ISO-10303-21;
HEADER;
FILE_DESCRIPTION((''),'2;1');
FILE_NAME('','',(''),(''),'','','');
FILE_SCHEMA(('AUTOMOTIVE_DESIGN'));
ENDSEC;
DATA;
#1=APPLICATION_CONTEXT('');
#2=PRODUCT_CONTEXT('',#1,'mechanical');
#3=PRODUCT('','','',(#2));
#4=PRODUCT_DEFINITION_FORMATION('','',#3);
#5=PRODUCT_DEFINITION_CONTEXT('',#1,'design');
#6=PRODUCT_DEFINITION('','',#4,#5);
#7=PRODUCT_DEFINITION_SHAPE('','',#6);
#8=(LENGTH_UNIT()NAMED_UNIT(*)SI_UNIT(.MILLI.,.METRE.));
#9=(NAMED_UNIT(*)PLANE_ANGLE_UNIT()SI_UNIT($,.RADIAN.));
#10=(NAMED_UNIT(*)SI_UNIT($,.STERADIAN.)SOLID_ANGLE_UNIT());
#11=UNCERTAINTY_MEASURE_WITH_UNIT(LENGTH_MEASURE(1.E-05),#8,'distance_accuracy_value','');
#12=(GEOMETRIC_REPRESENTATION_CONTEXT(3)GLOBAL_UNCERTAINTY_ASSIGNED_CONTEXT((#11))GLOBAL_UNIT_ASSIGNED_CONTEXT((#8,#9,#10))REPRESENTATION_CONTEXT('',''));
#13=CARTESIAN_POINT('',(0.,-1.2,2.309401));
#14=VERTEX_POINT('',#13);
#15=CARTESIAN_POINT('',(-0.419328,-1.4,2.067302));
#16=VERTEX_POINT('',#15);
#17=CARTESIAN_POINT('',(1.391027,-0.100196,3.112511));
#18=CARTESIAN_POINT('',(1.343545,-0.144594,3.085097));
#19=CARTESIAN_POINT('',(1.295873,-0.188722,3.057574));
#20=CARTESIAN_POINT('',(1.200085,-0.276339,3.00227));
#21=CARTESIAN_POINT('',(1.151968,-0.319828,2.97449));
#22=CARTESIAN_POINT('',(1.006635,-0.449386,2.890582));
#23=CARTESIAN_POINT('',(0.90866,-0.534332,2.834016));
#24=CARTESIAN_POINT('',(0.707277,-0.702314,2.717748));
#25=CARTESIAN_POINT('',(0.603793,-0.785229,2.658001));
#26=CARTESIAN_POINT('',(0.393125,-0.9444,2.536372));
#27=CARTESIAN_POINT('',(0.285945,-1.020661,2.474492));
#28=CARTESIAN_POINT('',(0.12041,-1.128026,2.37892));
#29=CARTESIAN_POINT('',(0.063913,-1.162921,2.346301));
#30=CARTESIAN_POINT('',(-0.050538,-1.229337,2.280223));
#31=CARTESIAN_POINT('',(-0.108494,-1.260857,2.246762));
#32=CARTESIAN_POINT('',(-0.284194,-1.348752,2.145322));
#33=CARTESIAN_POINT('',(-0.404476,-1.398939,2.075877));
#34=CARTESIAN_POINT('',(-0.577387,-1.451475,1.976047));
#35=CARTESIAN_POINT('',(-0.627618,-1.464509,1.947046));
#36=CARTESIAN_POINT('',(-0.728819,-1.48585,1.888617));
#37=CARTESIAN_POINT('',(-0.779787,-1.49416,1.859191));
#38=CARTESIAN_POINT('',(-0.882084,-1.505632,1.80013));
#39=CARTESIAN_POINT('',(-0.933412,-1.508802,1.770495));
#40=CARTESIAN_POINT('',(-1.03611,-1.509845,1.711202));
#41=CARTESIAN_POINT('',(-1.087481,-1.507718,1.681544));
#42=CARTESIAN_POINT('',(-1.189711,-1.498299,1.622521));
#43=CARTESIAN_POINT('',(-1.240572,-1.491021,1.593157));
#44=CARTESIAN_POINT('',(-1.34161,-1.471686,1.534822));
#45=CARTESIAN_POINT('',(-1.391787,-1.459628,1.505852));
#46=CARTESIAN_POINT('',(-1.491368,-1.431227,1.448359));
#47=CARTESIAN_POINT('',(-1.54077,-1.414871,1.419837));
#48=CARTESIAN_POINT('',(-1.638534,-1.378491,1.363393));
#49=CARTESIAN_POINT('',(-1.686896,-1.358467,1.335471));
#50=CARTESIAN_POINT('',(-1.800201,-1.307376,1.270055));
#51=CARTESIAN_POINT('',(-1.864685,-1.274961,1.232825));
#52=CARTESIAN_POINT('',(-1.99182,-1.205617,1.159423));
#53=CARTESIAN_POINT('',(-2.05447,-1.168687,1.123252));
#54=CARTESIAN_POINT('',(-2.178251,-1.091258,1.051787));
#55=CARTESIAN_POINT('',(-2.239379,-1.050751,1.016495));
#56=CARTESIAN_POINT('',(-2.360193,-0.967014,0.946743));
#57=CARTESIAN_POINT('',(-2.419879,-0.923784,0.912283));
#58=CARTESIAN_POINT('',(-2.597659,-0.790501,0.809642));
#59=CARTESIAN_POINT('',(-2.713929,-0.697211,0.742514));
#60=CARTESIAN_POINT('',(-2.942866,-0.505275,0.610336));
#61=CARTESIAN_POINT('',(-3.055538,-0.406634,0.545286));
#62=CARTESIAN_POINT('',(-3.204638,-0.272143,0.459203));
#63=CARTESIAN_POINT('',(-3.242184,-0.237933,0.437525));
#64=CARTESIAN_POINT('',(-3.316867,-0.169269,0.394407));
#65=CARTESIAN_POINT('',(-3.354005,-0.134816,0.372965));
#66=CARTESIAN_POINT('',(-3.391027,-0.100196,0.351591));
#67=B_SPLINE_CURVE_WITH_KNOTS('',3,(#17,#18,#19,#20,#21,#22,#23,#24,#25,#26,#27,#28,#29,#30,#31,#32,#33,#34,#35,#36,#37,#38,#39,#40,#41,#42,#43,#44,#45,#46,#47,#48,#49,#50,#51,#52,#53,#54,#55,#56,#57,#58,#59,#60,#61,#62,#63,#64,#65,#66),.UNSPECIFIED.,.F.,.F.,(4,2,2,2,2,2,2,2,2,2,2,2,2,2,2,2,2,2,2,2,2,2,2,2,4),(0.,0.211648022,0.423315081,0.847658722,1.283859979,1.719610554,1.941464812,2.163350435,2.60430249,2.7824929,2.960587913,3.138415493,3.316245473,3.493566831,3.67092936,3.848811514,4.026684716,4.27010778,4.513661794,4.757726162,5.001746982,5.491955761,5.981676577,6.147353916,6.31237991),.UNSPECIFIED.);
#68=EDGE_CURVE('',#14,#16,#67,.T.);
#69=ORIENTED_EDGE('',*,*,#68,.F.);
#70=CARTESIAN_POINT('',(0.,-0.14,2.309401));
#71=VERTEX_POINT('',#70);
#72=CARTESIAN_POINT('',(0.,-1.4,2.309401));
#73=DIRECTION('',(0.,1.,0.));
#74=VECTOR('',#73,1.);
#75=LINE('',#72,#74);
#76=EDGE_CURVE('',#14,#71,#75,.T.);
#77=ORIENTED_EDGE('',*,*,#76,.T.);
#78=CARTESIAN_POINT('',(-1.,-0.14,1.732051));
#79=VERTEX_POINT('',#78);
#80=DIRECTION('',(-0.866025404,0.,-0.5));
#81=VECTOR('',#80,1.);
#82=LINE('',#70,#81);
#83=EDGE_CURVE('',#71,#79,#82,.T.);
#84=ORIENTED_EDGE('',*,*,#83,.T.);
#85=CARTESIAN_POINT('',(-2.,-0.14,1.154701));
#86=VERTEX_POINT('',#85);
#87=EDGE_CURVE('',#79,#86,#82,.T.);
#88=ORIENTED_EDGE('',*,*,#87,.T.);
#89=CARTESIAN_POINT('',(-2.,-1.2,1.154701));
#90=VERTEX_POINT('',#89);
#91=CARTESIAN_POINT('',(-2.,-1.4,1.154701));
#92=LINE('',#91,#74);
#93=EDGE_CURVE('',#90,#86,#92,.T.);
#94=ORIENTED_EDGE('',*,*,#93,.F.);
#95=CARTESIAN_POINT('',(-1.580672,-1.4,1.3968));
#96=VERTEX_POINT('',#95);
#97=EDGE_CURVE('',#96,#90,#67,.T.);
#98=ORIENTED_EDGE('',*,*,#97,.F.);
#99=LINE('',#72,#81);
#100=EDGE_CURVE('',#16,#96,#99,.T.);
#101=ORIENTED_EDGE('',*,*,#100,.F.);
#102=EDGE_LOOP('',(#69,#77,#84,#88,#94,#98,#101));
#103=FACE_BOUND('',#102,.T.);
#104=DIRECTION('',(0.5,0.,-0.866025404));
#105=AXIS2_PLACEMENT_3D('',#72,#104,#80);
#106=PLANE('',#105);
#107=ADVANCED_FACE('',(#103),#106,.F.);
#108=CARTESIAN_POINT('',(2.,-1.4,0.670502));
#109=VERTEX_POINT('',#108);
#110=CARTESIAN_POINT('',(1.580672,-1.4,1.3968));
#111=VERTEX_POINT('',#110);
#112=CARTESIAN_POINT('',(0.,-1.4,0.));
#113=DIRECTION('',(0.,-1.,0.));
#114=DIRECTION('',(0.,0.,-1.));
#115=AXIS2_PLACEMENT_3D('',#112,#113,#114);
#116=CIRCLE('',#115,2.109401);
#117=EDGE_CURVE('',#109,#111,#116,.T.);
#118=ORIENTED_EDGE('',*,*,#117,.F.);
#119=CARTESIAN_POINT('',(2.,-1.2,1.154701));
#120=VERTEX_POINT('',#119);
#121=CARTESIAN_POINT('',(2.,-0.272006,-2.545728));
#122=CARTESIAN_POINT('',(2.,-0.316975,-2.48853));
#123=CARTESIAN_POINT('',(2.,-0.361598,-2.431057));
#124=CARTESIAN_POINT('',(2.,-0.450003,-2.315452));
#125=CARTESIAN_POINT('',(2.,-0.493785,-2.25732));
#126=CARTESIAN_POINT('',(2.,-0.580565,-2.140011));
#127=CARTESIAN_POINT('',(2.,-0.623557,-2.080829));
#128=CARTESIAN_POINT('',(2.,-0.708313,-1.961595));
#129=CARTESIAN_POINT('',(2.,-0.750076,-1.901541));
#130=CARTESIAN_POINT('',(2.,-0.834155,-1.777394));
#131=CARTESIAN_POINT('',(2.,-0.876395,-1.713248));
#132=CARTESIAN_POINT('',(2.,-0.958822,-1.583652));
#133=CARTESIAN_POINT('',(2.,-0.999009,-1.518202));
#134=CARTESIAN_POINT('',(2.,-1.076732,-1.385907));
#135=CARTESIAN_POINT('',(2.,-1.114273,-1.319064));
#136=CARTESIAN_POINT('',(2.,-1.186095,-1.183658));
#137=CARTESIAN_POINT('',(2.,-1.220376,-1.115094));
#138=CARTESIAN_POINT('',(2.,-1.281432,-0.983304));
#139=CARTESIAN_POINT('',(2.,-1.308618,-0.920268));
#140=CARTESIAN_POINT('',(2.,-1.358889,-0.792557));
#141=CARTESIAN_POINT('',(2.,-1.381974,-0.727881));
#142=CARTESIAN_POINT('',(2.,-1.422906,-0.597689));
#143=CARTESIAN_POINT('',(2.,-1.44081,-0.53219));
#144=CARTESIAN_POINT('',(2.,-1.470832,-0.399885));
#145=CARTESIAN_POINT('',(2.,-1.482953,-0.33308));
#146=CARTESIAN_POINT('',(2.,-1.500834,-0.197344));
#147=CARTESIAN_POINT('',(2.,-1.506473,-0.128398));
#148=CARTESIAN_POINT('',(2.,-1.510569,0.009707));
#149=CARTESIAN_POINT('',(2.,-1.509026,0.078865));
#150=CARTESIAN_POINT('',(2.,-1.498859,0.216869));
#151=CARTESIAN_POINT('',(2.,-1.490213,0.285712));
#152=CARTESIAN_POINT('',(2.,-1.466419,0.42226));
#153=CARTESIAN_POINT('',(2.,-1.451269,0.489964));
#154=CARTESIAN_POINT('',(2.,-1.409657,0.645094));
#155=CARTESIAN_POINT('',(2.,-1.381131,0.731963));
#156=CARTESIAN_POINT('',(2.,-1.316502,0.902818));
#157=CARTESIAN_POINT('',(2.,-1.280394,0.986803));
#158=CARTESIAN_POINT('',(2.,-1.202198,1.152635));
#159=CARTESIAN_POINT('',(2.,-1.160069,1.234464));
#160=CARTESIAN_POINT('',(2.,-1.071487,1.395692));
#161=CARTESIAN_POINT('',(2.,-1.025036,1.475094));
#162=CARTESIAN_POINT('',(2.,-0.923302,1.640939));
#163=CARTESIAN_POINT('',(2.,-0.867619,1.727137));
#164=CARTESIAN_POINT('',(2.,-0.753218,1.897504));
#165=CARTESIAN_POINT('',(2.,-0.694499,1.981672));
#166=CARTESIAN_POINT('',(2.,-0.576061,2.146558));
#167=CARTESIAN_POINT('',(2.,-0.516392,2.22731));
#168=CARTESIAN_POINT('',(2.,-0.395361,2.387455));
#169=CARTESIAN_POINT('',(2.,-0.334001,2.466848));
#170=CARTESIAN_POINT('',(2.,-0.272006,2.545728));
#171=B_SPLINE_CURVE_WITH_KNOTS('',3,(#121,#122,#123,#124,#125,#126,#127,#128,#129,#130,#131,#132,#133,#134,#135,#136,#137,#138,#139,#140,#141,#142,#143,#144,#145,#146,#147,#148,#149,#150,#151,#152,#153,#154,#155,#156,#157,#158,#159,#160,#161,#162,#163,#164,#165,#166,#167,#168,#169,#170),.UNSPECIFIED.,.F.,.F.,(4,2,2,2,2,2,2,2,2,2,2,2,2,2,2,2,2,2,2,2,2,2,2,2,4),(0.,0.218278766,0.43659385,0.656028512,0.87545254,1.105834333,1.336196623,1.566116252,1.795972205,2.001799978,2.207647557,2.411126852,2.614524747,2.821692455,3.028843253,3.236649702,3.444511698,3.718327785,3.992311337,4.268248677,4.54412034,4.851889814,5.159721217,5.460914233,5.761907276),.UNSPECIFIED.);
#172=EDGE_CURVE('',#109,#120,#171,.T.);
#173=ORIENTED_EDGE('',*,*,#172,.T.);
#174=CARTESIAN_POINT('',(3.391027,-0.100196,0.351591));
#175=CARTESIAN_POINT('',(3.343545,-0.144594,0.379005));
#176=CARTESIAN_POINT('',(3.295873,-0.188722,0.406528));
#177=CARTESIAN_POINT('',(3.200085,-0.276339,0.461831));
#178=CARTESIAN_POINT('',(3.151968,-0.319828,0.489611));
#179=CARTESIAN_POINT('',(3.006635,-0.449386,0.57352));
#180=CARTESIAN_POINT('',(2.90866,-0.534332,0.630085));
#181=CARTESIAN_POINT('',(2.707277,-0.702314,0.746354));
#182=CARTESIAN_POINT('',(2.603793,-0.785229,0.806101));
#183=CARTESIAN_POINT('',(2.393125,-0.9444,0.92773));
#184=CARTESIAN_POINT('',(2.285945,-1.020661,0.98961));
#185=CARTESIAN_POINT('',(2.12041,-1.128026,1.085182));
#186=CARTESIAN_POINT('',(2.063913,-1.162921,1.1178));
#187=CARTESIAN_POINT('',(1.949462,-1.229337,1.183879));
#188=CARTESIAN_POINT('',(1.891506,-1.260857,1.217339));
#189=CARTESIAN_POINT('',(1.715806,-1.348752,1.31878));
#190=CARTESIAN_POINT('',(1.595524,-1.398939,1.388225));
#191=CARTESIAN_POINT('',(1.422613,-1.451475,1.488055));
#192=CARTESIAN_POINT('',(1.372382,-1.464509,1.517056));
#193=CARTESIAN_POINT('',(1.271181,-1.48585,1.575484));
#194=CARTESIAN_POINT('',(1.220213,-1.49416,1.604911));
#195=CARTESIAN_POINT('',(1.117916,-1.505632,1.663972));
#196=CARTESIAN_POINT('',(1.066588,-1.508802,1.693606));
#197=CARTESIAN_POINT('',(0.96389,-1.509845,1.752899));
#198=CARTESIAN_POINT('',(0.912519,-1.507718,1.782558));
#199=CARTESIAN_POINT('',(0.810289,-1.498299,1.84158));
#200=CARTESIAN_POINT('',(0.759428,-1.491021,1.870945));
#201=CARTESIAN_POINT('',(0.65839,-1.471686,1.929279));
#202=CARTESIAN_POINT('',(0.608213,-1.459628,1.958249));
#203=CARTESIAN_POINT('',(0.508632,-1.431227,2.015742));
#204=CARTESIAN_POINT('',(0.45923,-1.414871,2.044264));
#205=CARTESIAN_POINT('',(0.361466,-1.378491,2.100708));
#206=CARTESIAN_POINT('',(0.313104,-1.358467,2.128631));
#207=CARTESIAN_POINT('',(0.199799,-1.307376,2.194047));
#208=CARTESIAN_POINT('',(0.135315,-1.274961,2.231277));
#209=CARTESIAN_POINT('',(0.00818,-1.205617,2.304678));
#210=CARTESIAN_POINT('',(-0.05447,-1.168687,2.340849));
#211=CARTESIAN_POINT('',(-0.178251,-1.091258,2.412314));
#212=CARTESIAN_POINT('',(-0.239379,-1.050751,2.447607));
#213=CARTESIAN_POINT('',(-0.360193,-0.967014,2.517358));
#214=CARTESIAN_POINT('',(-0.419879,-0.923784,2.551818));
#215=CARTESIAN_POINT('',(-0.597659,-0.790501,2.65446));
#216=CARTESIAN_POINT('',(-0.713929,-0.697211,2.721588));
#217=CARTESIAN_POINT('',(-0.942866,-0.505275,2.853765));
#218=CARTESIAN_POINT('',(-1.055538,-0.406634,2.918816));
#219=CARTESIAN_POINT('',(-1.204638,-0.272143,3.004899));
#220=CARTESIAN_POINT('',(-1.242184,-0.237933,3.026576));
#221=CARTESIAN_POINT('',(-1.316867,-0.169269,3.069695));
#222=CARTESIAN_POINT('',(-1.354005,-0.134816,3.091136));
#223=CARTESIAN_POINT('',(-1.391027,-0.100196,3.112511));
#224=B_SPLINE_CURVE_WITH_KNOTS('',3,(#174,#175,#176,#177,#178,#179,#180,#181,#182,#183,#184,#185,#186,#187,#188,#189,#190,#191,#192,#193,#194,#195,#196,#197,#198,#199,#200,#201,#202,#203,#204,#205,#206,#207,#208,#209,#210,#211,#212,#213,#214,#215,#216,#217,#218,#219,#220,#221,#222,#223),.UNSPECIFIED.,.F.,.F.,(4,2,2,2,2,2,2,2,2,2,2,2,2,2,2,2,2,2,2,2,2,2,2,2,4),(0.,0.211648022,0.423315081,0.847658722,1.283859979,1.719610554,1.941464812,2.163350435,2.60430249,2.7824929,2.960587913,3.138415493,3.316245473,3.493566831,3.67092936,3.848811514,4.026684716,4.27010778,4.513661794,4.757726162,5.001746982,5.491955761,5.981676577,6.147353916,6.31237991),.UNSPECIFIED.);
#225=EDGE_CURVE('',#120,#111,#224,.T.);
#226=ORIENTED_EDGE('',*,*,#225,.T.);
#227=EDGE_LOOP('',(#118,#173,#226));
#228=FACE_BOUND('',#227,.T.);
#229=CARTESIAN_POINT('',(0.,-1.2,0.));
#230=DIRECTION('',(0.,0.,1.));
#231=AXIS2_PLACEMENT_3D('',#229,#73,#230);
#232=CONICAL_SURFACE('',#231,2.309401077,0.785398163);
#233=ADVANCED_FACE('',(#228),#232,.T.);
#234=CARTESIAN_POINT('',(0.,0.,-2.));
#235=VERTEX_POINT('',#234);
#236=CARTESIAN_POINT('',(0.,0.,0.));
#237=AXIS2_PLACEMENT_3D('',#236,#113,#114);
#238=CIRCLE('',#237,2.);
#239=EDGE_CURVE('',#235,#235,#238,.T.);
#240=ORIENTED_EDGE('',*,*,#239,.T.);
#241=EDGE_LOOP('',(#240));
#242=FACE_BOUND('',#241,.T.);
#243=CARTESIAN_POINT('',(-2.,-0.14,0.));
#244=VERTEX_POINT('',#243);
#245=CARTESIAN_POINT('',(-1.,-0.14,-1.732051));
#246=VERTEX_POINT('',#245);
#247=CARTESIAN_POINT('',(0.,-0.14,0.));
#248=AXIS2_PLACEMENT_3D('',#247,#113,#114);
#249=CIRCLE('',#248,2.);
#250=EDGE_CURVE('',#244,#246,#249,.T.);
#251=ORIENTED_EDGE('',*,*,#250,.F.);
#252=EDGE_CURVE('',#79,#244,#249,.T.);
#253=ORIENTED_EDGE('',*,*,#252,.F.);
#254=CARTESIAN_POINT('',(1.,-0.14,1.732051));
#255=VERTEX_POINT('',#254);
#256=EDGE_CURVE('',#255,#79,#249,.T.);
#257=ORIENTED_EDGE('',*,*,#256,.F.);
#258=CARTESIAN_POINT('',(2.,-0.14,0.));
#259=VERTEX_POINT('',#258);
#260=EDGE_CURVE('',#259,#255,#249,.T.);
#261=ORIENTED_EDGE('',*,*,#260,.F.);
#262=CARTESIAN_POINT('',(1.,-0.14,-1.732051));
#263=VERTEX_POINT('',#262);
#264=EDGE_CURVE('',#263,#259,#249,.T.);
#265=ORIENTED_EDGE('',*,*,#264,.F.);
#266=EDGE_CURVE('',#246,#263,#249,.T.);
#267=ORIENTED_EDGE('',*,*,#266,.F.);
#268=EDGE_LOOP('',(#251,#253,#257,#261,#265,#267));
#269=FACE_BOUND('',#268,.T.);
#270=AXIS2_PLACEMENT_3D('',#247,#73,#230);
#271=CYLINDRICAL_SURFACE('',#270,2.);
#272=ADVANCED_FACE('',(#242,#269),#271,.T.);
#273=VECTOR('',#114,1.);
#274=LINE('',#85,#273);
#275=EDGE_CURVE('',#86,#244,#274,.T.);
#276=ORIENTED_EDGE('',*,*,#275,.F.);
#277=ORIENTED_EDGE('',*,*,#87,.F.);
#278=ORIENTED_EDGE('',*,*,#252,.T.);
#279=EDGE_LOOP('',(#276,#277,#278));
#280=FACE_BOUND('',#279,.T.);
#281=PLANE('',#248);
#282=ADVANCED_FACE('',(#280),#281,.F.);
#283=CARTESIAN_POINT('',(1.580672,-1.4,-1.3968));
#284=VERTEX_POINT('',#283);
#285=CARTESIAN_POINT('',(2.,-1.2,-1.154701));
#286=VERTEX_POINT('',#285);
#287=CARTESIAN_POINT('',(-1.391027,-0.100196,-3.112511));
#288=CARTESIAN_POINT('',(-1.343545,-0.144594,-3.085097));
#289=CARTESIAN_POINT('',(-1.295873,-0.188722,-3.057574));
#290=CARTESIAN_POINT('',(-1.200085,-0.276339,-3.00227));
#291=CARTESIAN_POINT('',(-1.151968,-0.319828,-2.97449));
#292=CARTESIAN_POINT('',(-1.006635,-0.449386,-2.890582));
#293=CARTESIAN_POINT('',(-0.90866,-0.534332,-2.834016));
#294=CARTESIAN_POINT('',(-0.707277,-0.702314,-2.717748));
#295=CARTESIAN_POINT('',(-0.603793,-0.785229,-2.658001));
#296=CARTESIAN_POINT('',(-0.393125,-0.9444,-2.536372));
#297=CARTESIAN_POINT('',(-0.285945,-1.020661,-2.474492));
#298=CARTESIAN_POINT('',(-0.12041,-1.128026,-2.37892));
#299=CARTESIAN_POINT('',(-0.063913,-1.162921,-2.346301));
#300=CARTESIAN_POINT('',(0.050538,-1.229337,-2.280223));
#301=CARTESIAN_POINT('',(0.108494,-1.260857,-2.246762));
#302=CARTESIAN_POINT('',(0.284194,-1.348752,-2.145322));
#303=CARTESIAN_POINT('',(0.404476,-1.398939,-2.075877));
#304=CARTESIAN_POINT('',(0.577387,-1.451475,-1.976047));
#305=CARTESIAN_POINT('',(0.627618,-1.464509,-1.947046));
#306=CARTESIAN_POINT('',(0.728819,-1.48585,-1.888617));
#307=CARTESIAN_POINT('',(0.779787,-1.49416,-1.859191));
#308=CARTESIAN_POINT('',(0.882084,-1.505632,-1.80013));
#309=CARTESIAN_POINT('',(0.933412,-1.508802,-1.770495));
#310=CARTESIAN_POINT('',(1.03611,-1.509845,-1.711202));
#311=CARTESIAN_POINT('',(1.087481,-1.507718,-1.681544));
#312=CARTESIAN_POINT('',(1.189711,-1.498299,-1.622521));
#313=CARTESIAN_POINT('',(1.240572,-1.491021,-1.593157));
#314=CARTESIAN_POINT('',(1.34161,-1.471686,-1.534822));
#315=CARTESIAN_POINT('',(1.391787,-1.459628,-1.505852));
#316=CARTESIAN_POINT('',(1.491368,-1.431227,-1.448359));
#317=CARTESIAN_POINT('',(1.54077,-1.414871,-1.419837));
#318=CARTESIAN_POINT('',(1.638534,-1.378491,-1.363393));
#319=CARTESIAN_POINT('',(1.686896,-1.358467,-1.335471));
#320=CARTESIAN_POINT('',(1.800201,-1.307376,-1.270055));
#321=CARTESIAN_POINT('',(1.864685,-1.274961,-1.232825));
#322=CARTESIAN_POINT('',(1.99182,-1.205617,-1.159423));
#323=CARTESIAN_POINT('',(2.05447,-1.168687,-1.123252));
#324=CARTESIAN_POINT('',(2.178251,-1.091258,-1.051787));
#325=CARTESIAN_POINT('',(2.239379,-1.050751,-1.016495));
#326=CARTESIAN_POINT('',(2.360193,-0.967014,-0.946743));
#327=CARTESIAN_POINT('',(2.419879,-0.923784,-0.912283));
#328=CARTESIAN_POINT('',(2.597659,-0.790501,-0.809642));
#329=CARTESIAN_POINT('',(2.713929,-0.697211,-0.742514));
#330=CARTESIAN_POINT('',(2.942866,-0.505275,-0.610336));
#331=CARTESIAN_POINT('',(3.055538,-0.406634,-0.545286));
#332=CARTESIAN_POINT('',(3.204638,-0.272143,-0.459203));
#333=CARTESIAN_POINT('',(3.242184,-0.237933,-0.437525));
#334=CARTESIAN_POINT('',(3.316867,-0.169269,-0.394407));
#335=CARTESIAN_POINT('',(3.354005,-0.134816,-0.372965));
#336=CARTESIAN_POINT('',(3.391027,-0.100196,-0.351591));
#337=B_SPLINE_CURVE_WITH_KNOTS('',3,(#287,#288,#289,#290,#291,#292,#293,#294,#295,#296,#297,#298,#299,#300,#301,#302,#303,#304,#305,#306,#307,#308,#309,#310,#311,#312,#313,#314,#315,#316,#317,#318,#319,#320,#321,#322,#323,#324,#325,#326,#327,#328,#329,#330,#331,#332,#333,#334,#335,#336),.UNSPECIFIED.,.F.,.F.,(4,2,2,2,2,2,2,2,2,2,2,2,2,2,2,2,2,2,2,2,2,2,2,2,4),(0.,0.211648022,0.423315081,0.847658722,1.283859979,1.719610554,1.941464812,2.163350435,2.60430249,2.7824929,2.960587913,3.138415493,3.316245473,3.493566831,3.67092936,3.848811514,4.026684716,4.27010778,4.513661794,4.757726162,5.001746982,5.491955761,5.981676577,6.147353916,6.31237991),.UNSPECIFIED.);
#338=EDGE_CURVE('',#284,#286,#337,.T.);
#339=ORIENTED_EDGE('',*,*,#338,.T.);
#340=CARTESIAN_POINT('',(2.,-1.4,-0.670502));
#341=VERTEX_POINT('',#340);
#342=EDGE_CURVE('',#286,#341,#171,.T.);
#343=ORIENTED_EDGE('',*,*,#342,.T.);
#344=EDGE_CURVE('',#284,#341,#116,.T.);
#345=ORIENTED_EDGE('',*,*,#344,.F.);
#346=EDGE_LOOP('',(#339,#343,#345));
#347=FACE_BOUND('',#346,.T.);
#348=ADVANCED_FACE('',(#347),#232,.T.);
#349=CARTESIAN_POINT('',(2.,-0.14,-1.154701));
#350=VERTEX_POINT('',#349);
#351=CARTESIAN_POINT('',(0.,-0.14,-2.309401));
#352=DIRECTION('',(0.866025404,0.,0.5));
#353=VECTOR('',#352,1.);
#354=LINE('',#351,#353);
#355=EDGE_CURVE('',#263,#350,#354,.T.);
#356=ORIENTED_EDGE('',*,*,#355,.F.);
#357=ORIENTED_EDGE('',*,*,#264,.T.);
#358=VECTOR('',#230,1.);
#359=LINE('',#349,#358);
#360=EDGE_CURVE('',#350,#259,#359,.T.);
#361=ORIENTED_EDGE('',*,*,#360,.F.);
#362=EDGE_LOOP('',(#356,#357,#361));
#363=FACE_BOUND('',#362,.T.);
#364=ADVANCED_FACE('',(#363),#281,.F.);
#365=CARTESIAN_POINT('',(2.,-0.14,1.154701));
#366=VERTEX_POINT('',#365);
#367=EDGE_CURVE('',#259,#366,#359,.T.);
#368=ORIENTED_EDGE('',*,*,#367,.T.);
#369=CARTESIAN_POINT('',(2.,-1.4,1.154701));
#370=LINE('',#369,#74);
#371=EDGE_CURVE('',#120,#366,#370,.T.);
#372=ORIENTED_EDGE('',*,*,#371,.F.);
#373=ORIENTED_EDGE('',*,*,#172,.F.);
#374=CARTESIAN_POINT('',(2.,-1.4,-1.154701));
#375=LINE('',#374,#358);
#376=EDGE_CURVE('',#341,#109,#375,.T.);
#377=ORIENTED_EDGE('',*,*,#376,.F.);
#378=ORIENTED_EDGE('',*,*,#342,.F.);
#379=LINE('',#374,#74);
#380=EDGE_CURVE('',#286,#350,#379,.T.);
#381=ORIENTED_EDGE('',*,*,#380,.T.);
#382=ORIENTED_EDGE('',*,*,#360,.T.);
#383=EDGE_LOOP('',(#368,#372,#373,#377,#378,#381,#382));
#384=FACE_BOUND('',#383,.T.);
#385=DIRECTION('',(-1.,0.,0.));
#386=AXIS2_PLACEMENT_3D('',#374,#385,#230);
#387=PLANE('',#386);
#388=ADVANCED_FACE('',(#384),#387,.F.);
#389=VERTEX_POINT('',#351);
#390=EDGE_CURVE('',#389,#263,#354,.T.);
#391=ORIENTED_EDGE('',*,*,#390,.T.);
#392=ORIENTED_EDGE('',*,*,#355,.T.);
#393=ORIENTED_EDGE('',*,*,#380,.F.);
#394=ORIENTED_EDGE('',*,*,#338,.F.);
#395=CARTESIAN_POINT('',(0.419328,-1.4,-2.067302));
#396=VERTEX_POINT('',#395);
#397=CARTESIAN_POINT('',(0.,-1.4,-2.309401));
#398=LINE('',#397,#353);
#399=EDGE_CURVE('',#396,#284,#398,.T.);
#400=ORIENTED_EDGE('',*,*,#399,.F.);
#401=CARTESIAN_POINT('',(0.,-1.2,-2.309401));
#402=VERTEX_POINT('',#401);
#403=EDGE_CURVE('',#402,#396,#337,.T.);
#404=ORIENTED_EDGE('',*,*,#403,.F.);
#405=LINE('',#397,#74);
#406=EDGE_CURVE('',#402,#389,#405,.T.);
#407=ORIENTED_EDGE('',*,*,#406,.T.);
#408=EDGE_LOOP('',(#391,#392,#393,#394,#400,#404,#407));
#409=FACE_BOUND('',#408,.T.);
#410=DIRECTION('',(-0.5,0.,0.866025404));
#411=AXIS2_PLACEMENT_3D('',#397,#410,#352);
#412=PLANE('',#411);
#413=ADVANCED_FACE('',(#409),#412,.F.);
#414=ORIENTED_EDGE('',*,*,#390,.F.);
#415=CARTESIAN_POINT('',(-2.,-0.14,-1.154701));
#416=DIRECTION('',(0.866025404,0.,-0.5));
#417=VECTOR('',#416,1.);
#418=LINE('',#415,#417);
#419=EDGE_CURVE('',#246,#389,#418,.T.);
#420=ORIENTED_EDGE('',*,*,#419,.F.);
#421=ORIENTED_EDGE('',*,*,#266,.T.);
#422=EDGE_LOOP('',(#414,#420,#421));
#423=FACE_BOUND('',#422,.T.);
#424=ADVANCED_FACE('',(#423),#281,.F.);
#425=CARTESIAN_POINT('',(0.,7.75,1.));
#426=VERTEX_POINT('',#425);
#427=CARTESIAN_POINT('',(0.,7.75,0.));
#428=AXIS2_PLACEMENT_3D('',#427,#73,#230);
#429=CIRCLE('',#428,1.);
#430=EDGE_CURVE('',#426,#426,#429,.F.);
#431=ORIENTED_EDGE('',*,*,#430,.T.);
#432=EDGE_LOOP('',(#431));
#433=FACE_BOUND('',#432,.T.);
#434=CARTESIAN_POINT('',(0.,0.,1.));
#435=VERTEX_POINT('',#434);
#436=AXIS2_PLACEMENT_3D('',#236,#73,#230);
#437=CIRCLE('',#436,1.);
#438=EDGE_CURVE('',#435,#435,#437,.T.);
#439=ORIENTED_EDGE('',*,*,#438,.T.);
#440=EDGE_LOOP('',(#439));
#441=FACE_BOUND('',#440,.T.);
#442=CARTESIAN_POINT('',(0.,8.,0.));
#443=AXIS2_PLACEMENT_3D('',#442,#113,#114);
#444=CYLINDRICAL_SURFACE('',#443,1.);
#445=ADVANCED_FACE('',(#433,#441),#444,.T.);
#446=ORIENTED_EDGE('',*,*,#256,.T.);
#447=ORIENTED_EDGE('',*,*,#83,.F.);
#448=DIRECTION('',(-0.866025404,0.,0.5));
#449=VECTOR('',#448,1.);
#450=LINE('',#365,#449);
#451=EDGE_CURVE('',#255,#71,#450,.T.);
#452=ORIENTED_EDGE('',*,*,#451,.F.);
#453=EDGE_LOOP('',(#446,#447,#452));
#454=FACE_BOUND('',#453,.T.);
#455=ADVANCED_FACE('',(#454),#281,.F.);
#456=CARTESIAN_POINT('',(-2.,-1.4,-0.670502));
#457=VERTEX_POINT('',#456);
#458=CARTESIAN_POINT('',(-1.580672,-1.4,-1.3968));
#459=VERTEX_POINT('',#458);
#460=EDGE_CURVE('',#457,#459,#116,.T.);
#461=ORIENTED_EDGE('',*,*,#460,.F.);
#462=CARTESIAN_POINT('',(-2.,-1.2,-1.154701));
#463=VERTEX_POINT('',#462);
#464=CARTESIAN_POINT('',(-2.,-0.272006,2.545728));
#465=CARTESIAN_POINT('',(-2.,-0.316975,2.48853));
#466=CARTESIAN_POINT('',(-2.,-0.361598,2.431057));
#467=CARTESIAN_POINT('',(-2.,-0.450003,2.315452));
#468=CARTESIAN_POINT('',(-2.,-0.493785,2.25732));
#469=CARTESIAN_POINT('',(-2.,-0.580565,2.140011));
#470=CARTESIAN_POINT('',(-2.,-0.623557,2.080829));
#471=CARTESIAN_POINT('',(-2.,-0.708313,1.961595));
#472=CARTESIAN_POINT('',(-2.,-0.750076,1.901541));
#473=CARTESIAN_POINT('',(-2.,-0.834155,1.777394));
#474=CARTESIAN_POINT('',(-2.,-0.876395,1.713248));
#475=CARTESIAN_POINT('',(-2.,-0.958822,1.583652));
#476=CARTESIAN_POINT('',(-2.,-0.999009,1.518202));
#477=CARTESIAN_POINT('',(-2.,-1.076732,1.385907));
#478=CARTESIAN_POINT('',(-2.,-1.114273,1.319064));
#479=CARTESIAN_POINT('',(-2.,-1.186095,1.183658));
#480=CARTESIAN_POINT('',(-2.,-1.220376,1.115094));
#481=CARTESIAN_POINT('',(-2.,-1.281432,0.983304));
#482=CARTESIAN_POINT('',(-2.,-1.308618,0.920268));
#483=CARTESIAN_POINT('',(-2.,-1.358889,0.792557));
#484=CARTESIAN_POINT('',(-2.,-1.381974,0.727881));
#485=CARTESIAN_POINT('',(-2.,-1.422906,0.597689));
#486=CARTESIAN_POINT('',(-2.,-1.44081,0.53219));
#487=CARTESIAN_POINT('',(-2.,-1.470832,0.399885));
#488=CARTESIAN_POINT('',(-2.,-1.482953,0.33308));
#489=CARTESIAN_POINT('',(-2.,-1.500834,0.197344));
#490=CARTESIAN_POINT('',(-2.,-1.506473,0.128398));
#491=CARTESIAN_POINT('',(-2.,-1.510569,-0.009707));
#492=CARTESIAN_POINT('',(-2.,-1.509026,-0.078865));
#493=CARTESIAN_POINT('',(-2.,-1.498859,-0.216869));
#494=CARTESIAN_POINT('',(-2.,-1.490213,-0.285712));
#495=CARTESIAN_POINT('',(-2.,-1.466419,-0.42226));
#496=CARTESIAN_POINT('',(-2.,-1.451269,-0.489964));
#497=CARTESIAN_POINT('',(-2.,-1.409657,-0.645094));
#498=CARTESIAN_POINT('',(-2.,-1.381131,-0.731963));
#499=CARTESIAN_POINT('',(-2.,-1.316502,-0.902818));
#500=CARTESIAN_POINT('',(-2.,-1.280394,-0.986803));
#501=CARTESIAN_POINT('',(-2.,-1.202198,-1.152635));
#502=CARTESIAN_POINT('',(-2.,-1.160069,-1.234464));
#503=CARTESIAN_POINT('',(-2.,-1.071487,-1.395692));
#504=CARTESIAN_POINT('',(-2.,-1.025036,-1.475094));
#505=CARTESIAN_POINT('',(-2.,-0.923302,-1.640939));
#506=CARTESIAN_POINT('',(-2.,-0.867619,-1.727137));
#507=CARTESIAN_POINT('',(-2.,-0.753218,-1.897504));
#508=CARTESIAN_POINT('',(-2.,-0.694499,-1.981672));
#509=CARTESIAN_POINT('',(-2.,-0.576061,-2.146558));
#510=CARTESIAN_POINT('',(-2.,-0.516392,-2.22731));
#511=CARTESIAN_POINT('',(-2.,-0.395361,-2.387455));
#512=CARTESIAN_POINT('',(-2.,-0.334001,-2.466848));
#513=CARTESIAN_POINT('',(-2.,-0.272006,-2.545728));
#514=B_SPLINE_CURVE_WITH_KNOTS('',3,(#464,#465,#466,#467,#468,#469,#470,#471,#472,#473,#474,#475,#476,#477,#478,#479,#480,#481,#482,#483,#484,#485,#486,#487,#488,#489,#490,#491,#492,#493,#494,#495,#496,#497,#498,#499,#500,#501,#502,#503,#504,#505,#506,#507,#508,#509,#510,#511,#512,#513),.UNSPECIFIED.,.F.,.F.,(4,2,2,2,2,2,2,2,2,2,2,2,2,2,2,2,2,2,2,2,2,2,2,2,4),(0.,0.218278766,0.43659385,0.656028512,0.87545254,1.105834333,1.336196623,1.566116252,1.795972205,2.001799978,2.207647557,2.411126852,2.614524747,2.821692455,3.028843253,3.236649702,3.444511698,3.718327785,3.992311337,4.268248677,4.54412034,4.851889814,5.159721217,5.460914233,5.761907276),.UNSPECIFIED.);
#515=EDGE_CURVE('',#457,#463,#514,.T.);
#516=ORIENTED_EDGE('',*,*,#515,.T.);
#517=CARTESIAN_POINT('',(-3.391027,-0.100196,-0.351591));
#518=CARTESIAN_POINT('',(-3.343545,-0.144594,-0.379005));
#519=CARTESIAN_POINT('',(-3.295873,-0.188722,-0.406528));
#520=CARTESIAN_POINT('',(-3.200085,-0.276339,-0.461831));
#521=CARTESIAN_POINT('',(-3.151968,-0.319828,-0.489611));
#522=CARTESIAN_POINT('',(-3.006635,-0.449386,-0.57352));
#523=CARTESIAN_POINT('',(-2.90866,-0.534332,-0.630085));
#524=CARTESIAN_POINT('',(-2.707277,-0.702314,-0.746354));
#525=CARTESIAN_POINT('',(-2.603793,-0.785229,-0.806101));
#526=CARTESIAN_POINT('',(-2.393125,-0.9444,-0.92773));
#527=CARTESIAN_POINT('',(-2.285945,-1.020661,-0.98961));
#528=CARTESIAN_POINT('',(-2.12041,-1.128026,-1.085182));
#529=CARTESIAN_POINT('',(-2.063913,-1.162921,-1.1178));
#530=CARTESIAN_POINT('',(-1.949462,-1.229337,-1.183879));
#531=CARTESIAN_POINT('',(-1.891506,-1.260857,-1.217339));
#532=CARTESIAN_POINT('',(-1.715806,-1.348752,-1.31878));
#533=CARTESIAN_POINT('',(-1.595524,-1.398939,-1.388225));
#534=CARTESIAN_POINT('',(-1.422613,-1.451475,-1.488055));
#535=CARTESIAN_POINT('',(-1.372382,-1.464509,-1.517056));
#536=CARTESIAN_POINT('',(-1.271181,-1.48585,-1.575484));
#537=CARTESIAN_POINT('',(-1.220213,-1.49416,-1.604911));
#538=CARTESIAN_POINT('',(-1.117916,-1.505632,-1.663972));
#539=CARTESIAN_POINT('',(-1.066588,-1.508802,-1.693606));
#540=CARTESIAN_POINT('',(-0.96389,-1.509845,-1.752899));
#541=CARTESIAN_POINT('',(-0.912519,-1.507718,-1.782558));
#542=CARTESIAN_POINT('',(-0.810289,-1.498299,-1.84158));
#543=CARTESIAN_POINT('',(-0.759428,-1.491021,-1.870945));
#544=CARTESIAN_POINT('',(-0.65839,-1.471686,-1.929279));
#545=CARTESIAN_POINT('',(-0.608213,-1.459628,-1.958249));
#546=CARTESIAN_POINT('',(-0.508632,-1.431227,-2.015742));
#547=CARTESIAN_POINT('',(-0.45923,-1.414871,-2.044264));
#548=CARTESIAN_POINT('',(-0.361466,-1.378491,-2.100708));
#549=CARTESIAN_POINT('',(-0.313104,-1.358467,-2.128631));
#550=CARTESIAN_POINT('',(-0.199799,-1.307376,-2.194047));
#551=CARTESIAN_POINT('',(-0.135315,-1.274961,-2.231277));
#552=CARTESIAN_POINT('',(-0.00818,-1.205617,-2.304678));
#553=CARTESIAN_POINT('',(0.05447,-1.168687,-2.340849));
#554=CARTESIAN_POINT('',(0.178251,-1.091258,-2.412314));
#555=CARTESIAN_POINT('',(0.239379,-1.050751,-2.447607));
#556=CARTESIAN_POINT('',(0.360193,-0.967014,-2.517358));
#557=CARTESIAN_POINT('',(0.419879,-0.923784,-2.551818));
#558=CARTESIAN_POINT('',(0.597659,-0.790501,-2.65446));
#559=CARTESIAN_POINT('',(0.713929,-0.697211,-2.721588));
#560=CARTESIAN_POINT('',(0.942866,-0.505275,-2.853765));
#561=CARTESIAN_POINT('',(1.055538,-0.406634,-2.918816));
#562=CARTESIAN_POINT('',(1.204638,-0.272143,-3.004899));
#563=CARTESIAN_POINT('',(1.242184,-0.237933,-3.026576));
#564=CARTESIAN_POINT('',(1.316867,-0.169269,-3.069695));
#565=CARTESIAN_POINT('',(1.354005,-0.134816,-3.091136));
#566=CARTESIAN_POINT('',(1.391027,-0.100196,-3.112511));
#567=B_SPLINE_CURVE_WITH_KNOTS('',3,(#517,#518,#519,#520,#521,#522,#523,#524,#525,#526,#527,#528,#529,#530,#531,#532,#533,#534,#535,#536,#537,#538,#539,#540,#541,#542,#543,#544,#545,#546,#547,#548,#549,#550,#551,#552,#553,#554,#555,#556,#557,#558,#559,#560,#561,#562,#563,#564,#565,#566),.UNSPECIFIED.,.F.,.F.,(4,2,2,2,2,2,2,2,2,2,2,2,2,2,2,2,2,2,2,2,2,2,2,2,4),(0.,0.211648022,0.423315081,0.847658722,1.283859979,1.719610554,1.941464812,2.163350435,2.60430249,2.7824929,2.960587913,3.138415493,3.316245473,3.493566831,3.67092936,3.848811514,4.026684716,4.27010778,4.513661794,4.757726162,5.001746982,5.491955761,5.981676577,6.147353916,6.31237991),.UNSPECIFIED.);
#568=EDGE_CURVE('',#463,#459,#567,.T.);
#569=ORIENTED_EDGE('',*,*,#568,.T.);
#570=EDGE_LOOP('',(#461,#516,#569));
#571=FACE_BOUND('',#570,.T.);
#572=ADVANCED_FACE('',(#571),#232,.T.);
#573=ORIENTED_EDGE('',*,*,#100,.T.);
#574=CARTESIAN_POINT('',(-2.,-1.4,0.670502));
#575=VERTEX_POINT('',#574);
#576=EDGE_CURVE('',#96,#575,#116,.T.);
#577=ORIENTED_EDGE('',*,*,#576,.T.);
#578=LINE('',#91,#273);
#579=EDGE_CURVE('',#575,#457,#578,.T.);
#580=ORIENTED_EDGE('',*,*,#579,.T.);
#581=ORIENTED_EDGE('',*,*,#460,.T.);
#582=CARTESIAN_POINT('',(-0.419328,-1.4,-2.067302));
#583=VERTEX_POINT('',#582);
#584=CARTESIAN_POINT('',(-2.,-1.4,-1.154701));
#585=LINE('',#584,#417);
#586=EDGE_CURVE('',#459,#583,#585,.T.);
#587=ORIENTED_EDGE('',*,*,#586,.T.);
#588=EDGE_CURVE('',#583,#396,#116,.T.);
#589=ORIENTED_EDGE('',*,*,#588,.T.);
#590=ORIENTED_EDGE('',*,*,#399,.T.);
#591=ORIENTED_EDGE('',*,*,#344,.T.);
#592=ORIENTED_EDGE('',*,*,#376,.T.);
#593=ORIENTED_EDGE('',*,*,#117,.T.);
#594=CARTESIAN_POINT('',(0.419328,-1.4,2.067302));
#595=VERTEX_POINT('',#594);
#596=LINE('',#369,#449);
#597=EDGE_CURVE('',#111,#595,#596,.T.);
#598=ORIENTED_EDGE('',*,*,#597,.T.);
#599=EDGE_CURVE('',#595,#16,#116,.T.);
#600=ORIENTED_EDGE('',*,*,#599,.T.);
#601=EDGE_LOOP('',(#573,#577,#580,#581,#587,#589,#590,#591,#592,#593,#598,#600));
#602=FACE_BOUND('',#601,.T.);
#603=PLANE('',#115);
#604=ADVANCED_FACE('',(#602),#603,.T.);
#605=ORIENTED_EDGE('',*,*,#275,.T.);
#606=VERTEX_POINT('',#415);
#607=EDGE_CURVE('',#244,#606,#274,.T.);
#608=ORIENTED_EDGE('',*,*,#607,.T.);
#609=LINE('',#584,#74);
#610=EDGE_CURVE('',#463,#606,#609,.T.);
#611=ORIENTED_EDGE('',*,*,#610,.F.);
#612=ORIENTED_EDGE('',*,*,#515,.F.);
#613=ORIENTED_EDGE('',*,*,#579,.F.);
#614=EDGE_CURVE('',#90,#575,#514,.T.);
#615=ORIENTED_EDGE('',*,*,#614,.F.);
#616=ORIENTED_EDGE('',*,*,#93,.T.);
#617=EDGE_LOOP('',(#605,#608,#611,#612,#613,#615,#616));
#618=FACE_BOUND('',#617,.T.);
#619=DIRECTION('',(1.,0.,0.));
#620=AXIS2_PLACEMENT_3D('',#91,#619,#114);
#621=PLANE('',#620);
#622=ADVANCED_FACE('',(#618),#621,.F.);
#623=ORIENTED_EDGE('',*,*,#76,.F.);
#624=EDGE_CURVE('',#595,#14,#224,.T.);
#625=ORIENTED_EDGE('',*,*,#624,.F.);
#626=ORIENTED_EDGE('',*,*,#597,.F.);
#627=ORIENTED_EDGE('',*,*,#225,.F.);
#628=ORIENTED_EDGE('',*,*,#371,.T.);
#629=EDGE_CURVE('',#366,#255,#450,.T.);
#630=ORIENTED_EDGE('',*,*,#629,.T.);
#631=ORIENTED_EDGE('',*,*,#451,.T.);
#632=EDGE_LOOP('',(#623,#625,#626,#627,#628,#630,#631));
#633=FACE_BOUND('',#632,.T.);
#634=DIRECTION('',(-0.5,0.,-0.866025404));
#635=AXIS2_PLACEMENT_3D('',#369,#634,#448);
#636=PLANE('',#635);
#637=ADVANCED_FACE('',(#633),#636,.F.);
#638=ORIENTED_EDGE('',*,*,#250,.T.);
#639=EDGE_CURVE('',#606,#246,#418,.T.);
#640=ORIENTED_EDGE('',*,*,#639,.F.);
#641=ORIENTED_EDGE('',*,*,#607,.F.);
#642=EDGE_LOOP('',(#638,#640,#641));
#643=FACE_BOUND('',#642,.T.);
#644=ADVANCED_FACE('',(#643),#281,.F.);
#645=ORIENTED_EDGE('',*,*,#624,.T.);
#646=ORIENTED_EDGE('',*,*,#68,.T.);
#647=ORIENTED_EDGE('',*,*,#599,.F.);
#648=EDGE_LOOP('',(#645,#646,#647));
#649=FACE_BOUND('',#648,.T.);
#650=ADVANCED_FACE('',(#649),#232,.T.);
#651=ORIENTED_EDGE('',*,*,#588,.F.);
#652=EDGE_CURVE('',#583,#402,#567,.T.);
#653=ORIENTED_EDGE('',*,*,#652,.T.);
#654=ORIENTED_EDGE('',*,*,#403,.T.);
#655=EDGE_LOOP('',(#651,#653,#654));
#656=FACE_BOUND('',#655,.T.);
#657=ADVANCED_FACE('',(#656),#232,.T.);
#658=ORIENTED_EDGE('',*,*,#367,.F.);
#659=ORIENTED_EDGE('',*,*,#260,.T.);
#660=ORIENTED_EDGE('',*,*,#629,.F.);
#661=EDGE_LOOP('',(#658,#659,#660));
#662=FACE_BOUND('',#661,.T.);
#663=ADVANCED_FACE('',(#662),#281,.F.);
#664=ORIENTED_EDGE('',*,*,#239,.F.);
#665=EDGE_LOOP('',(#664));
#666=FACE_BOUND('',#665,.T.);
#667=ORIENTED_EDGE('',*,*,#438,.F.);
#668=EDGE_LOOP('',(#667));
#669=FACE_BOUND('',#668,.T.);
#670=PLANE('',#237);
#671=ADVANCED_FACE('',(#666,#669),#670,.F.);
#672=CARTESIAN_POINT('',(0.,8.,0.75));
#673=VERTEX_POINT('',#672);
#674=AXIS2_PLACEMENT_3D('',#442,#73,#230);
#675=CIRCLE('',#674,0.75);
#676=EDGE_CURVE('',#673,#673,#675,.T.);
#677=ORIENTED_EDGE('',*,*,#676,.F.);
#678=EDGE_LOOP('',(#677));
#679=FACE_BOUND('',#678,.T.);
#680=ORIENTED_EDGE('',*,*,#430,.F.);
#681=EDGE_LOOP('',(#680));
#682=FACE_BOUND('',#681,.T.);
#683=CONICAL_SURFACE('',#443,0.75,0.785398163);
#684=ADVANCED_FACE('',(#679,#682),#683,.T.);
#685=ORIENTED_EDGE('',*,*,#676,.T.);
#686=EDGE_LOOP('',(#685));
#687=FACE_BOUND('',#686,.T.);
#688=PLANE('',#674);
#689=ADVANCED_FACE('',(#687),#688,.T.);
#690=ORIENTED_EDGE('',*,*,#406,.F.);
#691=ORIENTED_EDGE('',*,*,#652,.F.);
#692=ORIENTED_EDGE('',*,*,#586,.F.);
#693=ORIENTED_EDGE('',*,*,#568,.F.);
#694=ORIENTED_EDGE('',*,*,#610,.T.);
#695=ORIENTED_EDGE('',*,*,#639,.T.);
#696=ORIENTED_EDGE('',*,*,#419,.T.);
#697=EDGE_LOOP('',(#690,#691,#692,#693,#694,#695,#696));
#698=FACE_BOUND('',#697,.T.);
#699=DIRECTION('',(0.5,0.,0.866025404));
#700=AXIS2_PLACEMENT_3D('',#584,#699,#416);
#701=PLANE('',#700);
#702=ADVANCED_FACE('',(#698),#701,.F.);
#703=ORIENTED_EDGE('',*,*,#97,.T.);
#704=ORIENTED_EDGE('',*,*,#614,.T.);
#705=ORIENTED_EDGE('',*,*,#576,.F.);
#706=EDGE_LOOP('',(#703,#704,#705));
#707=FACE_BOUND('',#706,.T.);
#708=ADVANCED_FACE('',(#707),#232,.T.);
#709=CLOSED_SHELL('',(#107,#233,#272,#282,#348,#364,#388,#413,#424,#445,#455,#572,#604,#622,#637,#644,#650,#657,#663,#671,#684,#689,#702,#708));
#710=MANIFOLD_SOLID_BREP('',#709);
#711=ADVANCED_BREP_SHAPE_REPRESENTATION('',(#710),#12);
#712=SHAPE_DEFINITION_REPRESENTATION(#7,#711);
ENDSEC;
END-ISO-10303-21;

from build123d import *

# Parameters (mm, degrees)
ESQUISSE1_R    = 1
CORPS_DEPTH    = 8
ESQUISSE2_R    = 2
APPUIS_DEPTH   = 0.14
TETE_DEPTH     = 1.26
CHANFREIN_SIZE = 0.25


with BuildPart() as part:
    # Esquisse1 → CORPS (new body)
    with BuildSketch(Plane(origin=(0, 0, 0), x_dir=(1, 0, 0), z_dir=(0, 1, 0))):
        with Locations(Location((0, 0, 0), (0, 0, 270))):
            Circle(ESQUISSE1_R)
    extrude(amount=CORPS_DEPTH)

    # Esquisse2 → APPUIS (add)
    with BuildSketch(Plane(origin=(0, 0, 0), x_dir=(-1, 0, 0), z_dir=(0, -1, 0))):
        with Locations(Location((0, 0, 0), (0, 0, 90))):
            Circle(ESQUISSE2_R)
    extrude(amount=APPUIS_DEPTH)

    # Esquisse3 → TETE (add)
    with BuildSketch(Plane(origin=(0, -0.14, 0), x_dir=(-1, 0, 0), z_dir=(0, -1, 0))):
        Polygon((0, -2.309401077), (2, -1.154700538), (2, 1.154700538), (0, 2.309401077), (-2, 1.154700538), (-2, -1.154700538), align=None)
    extrude(amount=TETE_DEPTH)

    # Esquisse4 → CHANFREIN_TETE (revolve, cut)
    with BuildSketch(Plane(origin=(0, 0, 0), x_dir=(0, 0, -1), z_dir=(1, 0, 0)), mode=Mode.PRIVATE) as chanfrein_tete_sk:
        Polygon((2.309401077, -1.2), (2.109401077, -1.4), (2.309401077, -1.4), align=None)
    revolve(chanfrein_tete_sk.sketch.rotate(Axis((0, 0, 0), (0, -1, 0)), 210), axis=Axis((0, 0, 0), (0, -1, 0)), mode=Mode.SUBTRACT)

    # CHANFREIN
    chanfrein_edges = [part.edges().sort_by_distance(p)[0] for p in [
        (0, 8, -1),
    ]]
    chamfer(chanfrein_edges, length=CHANFREIN_SIZE)


solid = part.part
